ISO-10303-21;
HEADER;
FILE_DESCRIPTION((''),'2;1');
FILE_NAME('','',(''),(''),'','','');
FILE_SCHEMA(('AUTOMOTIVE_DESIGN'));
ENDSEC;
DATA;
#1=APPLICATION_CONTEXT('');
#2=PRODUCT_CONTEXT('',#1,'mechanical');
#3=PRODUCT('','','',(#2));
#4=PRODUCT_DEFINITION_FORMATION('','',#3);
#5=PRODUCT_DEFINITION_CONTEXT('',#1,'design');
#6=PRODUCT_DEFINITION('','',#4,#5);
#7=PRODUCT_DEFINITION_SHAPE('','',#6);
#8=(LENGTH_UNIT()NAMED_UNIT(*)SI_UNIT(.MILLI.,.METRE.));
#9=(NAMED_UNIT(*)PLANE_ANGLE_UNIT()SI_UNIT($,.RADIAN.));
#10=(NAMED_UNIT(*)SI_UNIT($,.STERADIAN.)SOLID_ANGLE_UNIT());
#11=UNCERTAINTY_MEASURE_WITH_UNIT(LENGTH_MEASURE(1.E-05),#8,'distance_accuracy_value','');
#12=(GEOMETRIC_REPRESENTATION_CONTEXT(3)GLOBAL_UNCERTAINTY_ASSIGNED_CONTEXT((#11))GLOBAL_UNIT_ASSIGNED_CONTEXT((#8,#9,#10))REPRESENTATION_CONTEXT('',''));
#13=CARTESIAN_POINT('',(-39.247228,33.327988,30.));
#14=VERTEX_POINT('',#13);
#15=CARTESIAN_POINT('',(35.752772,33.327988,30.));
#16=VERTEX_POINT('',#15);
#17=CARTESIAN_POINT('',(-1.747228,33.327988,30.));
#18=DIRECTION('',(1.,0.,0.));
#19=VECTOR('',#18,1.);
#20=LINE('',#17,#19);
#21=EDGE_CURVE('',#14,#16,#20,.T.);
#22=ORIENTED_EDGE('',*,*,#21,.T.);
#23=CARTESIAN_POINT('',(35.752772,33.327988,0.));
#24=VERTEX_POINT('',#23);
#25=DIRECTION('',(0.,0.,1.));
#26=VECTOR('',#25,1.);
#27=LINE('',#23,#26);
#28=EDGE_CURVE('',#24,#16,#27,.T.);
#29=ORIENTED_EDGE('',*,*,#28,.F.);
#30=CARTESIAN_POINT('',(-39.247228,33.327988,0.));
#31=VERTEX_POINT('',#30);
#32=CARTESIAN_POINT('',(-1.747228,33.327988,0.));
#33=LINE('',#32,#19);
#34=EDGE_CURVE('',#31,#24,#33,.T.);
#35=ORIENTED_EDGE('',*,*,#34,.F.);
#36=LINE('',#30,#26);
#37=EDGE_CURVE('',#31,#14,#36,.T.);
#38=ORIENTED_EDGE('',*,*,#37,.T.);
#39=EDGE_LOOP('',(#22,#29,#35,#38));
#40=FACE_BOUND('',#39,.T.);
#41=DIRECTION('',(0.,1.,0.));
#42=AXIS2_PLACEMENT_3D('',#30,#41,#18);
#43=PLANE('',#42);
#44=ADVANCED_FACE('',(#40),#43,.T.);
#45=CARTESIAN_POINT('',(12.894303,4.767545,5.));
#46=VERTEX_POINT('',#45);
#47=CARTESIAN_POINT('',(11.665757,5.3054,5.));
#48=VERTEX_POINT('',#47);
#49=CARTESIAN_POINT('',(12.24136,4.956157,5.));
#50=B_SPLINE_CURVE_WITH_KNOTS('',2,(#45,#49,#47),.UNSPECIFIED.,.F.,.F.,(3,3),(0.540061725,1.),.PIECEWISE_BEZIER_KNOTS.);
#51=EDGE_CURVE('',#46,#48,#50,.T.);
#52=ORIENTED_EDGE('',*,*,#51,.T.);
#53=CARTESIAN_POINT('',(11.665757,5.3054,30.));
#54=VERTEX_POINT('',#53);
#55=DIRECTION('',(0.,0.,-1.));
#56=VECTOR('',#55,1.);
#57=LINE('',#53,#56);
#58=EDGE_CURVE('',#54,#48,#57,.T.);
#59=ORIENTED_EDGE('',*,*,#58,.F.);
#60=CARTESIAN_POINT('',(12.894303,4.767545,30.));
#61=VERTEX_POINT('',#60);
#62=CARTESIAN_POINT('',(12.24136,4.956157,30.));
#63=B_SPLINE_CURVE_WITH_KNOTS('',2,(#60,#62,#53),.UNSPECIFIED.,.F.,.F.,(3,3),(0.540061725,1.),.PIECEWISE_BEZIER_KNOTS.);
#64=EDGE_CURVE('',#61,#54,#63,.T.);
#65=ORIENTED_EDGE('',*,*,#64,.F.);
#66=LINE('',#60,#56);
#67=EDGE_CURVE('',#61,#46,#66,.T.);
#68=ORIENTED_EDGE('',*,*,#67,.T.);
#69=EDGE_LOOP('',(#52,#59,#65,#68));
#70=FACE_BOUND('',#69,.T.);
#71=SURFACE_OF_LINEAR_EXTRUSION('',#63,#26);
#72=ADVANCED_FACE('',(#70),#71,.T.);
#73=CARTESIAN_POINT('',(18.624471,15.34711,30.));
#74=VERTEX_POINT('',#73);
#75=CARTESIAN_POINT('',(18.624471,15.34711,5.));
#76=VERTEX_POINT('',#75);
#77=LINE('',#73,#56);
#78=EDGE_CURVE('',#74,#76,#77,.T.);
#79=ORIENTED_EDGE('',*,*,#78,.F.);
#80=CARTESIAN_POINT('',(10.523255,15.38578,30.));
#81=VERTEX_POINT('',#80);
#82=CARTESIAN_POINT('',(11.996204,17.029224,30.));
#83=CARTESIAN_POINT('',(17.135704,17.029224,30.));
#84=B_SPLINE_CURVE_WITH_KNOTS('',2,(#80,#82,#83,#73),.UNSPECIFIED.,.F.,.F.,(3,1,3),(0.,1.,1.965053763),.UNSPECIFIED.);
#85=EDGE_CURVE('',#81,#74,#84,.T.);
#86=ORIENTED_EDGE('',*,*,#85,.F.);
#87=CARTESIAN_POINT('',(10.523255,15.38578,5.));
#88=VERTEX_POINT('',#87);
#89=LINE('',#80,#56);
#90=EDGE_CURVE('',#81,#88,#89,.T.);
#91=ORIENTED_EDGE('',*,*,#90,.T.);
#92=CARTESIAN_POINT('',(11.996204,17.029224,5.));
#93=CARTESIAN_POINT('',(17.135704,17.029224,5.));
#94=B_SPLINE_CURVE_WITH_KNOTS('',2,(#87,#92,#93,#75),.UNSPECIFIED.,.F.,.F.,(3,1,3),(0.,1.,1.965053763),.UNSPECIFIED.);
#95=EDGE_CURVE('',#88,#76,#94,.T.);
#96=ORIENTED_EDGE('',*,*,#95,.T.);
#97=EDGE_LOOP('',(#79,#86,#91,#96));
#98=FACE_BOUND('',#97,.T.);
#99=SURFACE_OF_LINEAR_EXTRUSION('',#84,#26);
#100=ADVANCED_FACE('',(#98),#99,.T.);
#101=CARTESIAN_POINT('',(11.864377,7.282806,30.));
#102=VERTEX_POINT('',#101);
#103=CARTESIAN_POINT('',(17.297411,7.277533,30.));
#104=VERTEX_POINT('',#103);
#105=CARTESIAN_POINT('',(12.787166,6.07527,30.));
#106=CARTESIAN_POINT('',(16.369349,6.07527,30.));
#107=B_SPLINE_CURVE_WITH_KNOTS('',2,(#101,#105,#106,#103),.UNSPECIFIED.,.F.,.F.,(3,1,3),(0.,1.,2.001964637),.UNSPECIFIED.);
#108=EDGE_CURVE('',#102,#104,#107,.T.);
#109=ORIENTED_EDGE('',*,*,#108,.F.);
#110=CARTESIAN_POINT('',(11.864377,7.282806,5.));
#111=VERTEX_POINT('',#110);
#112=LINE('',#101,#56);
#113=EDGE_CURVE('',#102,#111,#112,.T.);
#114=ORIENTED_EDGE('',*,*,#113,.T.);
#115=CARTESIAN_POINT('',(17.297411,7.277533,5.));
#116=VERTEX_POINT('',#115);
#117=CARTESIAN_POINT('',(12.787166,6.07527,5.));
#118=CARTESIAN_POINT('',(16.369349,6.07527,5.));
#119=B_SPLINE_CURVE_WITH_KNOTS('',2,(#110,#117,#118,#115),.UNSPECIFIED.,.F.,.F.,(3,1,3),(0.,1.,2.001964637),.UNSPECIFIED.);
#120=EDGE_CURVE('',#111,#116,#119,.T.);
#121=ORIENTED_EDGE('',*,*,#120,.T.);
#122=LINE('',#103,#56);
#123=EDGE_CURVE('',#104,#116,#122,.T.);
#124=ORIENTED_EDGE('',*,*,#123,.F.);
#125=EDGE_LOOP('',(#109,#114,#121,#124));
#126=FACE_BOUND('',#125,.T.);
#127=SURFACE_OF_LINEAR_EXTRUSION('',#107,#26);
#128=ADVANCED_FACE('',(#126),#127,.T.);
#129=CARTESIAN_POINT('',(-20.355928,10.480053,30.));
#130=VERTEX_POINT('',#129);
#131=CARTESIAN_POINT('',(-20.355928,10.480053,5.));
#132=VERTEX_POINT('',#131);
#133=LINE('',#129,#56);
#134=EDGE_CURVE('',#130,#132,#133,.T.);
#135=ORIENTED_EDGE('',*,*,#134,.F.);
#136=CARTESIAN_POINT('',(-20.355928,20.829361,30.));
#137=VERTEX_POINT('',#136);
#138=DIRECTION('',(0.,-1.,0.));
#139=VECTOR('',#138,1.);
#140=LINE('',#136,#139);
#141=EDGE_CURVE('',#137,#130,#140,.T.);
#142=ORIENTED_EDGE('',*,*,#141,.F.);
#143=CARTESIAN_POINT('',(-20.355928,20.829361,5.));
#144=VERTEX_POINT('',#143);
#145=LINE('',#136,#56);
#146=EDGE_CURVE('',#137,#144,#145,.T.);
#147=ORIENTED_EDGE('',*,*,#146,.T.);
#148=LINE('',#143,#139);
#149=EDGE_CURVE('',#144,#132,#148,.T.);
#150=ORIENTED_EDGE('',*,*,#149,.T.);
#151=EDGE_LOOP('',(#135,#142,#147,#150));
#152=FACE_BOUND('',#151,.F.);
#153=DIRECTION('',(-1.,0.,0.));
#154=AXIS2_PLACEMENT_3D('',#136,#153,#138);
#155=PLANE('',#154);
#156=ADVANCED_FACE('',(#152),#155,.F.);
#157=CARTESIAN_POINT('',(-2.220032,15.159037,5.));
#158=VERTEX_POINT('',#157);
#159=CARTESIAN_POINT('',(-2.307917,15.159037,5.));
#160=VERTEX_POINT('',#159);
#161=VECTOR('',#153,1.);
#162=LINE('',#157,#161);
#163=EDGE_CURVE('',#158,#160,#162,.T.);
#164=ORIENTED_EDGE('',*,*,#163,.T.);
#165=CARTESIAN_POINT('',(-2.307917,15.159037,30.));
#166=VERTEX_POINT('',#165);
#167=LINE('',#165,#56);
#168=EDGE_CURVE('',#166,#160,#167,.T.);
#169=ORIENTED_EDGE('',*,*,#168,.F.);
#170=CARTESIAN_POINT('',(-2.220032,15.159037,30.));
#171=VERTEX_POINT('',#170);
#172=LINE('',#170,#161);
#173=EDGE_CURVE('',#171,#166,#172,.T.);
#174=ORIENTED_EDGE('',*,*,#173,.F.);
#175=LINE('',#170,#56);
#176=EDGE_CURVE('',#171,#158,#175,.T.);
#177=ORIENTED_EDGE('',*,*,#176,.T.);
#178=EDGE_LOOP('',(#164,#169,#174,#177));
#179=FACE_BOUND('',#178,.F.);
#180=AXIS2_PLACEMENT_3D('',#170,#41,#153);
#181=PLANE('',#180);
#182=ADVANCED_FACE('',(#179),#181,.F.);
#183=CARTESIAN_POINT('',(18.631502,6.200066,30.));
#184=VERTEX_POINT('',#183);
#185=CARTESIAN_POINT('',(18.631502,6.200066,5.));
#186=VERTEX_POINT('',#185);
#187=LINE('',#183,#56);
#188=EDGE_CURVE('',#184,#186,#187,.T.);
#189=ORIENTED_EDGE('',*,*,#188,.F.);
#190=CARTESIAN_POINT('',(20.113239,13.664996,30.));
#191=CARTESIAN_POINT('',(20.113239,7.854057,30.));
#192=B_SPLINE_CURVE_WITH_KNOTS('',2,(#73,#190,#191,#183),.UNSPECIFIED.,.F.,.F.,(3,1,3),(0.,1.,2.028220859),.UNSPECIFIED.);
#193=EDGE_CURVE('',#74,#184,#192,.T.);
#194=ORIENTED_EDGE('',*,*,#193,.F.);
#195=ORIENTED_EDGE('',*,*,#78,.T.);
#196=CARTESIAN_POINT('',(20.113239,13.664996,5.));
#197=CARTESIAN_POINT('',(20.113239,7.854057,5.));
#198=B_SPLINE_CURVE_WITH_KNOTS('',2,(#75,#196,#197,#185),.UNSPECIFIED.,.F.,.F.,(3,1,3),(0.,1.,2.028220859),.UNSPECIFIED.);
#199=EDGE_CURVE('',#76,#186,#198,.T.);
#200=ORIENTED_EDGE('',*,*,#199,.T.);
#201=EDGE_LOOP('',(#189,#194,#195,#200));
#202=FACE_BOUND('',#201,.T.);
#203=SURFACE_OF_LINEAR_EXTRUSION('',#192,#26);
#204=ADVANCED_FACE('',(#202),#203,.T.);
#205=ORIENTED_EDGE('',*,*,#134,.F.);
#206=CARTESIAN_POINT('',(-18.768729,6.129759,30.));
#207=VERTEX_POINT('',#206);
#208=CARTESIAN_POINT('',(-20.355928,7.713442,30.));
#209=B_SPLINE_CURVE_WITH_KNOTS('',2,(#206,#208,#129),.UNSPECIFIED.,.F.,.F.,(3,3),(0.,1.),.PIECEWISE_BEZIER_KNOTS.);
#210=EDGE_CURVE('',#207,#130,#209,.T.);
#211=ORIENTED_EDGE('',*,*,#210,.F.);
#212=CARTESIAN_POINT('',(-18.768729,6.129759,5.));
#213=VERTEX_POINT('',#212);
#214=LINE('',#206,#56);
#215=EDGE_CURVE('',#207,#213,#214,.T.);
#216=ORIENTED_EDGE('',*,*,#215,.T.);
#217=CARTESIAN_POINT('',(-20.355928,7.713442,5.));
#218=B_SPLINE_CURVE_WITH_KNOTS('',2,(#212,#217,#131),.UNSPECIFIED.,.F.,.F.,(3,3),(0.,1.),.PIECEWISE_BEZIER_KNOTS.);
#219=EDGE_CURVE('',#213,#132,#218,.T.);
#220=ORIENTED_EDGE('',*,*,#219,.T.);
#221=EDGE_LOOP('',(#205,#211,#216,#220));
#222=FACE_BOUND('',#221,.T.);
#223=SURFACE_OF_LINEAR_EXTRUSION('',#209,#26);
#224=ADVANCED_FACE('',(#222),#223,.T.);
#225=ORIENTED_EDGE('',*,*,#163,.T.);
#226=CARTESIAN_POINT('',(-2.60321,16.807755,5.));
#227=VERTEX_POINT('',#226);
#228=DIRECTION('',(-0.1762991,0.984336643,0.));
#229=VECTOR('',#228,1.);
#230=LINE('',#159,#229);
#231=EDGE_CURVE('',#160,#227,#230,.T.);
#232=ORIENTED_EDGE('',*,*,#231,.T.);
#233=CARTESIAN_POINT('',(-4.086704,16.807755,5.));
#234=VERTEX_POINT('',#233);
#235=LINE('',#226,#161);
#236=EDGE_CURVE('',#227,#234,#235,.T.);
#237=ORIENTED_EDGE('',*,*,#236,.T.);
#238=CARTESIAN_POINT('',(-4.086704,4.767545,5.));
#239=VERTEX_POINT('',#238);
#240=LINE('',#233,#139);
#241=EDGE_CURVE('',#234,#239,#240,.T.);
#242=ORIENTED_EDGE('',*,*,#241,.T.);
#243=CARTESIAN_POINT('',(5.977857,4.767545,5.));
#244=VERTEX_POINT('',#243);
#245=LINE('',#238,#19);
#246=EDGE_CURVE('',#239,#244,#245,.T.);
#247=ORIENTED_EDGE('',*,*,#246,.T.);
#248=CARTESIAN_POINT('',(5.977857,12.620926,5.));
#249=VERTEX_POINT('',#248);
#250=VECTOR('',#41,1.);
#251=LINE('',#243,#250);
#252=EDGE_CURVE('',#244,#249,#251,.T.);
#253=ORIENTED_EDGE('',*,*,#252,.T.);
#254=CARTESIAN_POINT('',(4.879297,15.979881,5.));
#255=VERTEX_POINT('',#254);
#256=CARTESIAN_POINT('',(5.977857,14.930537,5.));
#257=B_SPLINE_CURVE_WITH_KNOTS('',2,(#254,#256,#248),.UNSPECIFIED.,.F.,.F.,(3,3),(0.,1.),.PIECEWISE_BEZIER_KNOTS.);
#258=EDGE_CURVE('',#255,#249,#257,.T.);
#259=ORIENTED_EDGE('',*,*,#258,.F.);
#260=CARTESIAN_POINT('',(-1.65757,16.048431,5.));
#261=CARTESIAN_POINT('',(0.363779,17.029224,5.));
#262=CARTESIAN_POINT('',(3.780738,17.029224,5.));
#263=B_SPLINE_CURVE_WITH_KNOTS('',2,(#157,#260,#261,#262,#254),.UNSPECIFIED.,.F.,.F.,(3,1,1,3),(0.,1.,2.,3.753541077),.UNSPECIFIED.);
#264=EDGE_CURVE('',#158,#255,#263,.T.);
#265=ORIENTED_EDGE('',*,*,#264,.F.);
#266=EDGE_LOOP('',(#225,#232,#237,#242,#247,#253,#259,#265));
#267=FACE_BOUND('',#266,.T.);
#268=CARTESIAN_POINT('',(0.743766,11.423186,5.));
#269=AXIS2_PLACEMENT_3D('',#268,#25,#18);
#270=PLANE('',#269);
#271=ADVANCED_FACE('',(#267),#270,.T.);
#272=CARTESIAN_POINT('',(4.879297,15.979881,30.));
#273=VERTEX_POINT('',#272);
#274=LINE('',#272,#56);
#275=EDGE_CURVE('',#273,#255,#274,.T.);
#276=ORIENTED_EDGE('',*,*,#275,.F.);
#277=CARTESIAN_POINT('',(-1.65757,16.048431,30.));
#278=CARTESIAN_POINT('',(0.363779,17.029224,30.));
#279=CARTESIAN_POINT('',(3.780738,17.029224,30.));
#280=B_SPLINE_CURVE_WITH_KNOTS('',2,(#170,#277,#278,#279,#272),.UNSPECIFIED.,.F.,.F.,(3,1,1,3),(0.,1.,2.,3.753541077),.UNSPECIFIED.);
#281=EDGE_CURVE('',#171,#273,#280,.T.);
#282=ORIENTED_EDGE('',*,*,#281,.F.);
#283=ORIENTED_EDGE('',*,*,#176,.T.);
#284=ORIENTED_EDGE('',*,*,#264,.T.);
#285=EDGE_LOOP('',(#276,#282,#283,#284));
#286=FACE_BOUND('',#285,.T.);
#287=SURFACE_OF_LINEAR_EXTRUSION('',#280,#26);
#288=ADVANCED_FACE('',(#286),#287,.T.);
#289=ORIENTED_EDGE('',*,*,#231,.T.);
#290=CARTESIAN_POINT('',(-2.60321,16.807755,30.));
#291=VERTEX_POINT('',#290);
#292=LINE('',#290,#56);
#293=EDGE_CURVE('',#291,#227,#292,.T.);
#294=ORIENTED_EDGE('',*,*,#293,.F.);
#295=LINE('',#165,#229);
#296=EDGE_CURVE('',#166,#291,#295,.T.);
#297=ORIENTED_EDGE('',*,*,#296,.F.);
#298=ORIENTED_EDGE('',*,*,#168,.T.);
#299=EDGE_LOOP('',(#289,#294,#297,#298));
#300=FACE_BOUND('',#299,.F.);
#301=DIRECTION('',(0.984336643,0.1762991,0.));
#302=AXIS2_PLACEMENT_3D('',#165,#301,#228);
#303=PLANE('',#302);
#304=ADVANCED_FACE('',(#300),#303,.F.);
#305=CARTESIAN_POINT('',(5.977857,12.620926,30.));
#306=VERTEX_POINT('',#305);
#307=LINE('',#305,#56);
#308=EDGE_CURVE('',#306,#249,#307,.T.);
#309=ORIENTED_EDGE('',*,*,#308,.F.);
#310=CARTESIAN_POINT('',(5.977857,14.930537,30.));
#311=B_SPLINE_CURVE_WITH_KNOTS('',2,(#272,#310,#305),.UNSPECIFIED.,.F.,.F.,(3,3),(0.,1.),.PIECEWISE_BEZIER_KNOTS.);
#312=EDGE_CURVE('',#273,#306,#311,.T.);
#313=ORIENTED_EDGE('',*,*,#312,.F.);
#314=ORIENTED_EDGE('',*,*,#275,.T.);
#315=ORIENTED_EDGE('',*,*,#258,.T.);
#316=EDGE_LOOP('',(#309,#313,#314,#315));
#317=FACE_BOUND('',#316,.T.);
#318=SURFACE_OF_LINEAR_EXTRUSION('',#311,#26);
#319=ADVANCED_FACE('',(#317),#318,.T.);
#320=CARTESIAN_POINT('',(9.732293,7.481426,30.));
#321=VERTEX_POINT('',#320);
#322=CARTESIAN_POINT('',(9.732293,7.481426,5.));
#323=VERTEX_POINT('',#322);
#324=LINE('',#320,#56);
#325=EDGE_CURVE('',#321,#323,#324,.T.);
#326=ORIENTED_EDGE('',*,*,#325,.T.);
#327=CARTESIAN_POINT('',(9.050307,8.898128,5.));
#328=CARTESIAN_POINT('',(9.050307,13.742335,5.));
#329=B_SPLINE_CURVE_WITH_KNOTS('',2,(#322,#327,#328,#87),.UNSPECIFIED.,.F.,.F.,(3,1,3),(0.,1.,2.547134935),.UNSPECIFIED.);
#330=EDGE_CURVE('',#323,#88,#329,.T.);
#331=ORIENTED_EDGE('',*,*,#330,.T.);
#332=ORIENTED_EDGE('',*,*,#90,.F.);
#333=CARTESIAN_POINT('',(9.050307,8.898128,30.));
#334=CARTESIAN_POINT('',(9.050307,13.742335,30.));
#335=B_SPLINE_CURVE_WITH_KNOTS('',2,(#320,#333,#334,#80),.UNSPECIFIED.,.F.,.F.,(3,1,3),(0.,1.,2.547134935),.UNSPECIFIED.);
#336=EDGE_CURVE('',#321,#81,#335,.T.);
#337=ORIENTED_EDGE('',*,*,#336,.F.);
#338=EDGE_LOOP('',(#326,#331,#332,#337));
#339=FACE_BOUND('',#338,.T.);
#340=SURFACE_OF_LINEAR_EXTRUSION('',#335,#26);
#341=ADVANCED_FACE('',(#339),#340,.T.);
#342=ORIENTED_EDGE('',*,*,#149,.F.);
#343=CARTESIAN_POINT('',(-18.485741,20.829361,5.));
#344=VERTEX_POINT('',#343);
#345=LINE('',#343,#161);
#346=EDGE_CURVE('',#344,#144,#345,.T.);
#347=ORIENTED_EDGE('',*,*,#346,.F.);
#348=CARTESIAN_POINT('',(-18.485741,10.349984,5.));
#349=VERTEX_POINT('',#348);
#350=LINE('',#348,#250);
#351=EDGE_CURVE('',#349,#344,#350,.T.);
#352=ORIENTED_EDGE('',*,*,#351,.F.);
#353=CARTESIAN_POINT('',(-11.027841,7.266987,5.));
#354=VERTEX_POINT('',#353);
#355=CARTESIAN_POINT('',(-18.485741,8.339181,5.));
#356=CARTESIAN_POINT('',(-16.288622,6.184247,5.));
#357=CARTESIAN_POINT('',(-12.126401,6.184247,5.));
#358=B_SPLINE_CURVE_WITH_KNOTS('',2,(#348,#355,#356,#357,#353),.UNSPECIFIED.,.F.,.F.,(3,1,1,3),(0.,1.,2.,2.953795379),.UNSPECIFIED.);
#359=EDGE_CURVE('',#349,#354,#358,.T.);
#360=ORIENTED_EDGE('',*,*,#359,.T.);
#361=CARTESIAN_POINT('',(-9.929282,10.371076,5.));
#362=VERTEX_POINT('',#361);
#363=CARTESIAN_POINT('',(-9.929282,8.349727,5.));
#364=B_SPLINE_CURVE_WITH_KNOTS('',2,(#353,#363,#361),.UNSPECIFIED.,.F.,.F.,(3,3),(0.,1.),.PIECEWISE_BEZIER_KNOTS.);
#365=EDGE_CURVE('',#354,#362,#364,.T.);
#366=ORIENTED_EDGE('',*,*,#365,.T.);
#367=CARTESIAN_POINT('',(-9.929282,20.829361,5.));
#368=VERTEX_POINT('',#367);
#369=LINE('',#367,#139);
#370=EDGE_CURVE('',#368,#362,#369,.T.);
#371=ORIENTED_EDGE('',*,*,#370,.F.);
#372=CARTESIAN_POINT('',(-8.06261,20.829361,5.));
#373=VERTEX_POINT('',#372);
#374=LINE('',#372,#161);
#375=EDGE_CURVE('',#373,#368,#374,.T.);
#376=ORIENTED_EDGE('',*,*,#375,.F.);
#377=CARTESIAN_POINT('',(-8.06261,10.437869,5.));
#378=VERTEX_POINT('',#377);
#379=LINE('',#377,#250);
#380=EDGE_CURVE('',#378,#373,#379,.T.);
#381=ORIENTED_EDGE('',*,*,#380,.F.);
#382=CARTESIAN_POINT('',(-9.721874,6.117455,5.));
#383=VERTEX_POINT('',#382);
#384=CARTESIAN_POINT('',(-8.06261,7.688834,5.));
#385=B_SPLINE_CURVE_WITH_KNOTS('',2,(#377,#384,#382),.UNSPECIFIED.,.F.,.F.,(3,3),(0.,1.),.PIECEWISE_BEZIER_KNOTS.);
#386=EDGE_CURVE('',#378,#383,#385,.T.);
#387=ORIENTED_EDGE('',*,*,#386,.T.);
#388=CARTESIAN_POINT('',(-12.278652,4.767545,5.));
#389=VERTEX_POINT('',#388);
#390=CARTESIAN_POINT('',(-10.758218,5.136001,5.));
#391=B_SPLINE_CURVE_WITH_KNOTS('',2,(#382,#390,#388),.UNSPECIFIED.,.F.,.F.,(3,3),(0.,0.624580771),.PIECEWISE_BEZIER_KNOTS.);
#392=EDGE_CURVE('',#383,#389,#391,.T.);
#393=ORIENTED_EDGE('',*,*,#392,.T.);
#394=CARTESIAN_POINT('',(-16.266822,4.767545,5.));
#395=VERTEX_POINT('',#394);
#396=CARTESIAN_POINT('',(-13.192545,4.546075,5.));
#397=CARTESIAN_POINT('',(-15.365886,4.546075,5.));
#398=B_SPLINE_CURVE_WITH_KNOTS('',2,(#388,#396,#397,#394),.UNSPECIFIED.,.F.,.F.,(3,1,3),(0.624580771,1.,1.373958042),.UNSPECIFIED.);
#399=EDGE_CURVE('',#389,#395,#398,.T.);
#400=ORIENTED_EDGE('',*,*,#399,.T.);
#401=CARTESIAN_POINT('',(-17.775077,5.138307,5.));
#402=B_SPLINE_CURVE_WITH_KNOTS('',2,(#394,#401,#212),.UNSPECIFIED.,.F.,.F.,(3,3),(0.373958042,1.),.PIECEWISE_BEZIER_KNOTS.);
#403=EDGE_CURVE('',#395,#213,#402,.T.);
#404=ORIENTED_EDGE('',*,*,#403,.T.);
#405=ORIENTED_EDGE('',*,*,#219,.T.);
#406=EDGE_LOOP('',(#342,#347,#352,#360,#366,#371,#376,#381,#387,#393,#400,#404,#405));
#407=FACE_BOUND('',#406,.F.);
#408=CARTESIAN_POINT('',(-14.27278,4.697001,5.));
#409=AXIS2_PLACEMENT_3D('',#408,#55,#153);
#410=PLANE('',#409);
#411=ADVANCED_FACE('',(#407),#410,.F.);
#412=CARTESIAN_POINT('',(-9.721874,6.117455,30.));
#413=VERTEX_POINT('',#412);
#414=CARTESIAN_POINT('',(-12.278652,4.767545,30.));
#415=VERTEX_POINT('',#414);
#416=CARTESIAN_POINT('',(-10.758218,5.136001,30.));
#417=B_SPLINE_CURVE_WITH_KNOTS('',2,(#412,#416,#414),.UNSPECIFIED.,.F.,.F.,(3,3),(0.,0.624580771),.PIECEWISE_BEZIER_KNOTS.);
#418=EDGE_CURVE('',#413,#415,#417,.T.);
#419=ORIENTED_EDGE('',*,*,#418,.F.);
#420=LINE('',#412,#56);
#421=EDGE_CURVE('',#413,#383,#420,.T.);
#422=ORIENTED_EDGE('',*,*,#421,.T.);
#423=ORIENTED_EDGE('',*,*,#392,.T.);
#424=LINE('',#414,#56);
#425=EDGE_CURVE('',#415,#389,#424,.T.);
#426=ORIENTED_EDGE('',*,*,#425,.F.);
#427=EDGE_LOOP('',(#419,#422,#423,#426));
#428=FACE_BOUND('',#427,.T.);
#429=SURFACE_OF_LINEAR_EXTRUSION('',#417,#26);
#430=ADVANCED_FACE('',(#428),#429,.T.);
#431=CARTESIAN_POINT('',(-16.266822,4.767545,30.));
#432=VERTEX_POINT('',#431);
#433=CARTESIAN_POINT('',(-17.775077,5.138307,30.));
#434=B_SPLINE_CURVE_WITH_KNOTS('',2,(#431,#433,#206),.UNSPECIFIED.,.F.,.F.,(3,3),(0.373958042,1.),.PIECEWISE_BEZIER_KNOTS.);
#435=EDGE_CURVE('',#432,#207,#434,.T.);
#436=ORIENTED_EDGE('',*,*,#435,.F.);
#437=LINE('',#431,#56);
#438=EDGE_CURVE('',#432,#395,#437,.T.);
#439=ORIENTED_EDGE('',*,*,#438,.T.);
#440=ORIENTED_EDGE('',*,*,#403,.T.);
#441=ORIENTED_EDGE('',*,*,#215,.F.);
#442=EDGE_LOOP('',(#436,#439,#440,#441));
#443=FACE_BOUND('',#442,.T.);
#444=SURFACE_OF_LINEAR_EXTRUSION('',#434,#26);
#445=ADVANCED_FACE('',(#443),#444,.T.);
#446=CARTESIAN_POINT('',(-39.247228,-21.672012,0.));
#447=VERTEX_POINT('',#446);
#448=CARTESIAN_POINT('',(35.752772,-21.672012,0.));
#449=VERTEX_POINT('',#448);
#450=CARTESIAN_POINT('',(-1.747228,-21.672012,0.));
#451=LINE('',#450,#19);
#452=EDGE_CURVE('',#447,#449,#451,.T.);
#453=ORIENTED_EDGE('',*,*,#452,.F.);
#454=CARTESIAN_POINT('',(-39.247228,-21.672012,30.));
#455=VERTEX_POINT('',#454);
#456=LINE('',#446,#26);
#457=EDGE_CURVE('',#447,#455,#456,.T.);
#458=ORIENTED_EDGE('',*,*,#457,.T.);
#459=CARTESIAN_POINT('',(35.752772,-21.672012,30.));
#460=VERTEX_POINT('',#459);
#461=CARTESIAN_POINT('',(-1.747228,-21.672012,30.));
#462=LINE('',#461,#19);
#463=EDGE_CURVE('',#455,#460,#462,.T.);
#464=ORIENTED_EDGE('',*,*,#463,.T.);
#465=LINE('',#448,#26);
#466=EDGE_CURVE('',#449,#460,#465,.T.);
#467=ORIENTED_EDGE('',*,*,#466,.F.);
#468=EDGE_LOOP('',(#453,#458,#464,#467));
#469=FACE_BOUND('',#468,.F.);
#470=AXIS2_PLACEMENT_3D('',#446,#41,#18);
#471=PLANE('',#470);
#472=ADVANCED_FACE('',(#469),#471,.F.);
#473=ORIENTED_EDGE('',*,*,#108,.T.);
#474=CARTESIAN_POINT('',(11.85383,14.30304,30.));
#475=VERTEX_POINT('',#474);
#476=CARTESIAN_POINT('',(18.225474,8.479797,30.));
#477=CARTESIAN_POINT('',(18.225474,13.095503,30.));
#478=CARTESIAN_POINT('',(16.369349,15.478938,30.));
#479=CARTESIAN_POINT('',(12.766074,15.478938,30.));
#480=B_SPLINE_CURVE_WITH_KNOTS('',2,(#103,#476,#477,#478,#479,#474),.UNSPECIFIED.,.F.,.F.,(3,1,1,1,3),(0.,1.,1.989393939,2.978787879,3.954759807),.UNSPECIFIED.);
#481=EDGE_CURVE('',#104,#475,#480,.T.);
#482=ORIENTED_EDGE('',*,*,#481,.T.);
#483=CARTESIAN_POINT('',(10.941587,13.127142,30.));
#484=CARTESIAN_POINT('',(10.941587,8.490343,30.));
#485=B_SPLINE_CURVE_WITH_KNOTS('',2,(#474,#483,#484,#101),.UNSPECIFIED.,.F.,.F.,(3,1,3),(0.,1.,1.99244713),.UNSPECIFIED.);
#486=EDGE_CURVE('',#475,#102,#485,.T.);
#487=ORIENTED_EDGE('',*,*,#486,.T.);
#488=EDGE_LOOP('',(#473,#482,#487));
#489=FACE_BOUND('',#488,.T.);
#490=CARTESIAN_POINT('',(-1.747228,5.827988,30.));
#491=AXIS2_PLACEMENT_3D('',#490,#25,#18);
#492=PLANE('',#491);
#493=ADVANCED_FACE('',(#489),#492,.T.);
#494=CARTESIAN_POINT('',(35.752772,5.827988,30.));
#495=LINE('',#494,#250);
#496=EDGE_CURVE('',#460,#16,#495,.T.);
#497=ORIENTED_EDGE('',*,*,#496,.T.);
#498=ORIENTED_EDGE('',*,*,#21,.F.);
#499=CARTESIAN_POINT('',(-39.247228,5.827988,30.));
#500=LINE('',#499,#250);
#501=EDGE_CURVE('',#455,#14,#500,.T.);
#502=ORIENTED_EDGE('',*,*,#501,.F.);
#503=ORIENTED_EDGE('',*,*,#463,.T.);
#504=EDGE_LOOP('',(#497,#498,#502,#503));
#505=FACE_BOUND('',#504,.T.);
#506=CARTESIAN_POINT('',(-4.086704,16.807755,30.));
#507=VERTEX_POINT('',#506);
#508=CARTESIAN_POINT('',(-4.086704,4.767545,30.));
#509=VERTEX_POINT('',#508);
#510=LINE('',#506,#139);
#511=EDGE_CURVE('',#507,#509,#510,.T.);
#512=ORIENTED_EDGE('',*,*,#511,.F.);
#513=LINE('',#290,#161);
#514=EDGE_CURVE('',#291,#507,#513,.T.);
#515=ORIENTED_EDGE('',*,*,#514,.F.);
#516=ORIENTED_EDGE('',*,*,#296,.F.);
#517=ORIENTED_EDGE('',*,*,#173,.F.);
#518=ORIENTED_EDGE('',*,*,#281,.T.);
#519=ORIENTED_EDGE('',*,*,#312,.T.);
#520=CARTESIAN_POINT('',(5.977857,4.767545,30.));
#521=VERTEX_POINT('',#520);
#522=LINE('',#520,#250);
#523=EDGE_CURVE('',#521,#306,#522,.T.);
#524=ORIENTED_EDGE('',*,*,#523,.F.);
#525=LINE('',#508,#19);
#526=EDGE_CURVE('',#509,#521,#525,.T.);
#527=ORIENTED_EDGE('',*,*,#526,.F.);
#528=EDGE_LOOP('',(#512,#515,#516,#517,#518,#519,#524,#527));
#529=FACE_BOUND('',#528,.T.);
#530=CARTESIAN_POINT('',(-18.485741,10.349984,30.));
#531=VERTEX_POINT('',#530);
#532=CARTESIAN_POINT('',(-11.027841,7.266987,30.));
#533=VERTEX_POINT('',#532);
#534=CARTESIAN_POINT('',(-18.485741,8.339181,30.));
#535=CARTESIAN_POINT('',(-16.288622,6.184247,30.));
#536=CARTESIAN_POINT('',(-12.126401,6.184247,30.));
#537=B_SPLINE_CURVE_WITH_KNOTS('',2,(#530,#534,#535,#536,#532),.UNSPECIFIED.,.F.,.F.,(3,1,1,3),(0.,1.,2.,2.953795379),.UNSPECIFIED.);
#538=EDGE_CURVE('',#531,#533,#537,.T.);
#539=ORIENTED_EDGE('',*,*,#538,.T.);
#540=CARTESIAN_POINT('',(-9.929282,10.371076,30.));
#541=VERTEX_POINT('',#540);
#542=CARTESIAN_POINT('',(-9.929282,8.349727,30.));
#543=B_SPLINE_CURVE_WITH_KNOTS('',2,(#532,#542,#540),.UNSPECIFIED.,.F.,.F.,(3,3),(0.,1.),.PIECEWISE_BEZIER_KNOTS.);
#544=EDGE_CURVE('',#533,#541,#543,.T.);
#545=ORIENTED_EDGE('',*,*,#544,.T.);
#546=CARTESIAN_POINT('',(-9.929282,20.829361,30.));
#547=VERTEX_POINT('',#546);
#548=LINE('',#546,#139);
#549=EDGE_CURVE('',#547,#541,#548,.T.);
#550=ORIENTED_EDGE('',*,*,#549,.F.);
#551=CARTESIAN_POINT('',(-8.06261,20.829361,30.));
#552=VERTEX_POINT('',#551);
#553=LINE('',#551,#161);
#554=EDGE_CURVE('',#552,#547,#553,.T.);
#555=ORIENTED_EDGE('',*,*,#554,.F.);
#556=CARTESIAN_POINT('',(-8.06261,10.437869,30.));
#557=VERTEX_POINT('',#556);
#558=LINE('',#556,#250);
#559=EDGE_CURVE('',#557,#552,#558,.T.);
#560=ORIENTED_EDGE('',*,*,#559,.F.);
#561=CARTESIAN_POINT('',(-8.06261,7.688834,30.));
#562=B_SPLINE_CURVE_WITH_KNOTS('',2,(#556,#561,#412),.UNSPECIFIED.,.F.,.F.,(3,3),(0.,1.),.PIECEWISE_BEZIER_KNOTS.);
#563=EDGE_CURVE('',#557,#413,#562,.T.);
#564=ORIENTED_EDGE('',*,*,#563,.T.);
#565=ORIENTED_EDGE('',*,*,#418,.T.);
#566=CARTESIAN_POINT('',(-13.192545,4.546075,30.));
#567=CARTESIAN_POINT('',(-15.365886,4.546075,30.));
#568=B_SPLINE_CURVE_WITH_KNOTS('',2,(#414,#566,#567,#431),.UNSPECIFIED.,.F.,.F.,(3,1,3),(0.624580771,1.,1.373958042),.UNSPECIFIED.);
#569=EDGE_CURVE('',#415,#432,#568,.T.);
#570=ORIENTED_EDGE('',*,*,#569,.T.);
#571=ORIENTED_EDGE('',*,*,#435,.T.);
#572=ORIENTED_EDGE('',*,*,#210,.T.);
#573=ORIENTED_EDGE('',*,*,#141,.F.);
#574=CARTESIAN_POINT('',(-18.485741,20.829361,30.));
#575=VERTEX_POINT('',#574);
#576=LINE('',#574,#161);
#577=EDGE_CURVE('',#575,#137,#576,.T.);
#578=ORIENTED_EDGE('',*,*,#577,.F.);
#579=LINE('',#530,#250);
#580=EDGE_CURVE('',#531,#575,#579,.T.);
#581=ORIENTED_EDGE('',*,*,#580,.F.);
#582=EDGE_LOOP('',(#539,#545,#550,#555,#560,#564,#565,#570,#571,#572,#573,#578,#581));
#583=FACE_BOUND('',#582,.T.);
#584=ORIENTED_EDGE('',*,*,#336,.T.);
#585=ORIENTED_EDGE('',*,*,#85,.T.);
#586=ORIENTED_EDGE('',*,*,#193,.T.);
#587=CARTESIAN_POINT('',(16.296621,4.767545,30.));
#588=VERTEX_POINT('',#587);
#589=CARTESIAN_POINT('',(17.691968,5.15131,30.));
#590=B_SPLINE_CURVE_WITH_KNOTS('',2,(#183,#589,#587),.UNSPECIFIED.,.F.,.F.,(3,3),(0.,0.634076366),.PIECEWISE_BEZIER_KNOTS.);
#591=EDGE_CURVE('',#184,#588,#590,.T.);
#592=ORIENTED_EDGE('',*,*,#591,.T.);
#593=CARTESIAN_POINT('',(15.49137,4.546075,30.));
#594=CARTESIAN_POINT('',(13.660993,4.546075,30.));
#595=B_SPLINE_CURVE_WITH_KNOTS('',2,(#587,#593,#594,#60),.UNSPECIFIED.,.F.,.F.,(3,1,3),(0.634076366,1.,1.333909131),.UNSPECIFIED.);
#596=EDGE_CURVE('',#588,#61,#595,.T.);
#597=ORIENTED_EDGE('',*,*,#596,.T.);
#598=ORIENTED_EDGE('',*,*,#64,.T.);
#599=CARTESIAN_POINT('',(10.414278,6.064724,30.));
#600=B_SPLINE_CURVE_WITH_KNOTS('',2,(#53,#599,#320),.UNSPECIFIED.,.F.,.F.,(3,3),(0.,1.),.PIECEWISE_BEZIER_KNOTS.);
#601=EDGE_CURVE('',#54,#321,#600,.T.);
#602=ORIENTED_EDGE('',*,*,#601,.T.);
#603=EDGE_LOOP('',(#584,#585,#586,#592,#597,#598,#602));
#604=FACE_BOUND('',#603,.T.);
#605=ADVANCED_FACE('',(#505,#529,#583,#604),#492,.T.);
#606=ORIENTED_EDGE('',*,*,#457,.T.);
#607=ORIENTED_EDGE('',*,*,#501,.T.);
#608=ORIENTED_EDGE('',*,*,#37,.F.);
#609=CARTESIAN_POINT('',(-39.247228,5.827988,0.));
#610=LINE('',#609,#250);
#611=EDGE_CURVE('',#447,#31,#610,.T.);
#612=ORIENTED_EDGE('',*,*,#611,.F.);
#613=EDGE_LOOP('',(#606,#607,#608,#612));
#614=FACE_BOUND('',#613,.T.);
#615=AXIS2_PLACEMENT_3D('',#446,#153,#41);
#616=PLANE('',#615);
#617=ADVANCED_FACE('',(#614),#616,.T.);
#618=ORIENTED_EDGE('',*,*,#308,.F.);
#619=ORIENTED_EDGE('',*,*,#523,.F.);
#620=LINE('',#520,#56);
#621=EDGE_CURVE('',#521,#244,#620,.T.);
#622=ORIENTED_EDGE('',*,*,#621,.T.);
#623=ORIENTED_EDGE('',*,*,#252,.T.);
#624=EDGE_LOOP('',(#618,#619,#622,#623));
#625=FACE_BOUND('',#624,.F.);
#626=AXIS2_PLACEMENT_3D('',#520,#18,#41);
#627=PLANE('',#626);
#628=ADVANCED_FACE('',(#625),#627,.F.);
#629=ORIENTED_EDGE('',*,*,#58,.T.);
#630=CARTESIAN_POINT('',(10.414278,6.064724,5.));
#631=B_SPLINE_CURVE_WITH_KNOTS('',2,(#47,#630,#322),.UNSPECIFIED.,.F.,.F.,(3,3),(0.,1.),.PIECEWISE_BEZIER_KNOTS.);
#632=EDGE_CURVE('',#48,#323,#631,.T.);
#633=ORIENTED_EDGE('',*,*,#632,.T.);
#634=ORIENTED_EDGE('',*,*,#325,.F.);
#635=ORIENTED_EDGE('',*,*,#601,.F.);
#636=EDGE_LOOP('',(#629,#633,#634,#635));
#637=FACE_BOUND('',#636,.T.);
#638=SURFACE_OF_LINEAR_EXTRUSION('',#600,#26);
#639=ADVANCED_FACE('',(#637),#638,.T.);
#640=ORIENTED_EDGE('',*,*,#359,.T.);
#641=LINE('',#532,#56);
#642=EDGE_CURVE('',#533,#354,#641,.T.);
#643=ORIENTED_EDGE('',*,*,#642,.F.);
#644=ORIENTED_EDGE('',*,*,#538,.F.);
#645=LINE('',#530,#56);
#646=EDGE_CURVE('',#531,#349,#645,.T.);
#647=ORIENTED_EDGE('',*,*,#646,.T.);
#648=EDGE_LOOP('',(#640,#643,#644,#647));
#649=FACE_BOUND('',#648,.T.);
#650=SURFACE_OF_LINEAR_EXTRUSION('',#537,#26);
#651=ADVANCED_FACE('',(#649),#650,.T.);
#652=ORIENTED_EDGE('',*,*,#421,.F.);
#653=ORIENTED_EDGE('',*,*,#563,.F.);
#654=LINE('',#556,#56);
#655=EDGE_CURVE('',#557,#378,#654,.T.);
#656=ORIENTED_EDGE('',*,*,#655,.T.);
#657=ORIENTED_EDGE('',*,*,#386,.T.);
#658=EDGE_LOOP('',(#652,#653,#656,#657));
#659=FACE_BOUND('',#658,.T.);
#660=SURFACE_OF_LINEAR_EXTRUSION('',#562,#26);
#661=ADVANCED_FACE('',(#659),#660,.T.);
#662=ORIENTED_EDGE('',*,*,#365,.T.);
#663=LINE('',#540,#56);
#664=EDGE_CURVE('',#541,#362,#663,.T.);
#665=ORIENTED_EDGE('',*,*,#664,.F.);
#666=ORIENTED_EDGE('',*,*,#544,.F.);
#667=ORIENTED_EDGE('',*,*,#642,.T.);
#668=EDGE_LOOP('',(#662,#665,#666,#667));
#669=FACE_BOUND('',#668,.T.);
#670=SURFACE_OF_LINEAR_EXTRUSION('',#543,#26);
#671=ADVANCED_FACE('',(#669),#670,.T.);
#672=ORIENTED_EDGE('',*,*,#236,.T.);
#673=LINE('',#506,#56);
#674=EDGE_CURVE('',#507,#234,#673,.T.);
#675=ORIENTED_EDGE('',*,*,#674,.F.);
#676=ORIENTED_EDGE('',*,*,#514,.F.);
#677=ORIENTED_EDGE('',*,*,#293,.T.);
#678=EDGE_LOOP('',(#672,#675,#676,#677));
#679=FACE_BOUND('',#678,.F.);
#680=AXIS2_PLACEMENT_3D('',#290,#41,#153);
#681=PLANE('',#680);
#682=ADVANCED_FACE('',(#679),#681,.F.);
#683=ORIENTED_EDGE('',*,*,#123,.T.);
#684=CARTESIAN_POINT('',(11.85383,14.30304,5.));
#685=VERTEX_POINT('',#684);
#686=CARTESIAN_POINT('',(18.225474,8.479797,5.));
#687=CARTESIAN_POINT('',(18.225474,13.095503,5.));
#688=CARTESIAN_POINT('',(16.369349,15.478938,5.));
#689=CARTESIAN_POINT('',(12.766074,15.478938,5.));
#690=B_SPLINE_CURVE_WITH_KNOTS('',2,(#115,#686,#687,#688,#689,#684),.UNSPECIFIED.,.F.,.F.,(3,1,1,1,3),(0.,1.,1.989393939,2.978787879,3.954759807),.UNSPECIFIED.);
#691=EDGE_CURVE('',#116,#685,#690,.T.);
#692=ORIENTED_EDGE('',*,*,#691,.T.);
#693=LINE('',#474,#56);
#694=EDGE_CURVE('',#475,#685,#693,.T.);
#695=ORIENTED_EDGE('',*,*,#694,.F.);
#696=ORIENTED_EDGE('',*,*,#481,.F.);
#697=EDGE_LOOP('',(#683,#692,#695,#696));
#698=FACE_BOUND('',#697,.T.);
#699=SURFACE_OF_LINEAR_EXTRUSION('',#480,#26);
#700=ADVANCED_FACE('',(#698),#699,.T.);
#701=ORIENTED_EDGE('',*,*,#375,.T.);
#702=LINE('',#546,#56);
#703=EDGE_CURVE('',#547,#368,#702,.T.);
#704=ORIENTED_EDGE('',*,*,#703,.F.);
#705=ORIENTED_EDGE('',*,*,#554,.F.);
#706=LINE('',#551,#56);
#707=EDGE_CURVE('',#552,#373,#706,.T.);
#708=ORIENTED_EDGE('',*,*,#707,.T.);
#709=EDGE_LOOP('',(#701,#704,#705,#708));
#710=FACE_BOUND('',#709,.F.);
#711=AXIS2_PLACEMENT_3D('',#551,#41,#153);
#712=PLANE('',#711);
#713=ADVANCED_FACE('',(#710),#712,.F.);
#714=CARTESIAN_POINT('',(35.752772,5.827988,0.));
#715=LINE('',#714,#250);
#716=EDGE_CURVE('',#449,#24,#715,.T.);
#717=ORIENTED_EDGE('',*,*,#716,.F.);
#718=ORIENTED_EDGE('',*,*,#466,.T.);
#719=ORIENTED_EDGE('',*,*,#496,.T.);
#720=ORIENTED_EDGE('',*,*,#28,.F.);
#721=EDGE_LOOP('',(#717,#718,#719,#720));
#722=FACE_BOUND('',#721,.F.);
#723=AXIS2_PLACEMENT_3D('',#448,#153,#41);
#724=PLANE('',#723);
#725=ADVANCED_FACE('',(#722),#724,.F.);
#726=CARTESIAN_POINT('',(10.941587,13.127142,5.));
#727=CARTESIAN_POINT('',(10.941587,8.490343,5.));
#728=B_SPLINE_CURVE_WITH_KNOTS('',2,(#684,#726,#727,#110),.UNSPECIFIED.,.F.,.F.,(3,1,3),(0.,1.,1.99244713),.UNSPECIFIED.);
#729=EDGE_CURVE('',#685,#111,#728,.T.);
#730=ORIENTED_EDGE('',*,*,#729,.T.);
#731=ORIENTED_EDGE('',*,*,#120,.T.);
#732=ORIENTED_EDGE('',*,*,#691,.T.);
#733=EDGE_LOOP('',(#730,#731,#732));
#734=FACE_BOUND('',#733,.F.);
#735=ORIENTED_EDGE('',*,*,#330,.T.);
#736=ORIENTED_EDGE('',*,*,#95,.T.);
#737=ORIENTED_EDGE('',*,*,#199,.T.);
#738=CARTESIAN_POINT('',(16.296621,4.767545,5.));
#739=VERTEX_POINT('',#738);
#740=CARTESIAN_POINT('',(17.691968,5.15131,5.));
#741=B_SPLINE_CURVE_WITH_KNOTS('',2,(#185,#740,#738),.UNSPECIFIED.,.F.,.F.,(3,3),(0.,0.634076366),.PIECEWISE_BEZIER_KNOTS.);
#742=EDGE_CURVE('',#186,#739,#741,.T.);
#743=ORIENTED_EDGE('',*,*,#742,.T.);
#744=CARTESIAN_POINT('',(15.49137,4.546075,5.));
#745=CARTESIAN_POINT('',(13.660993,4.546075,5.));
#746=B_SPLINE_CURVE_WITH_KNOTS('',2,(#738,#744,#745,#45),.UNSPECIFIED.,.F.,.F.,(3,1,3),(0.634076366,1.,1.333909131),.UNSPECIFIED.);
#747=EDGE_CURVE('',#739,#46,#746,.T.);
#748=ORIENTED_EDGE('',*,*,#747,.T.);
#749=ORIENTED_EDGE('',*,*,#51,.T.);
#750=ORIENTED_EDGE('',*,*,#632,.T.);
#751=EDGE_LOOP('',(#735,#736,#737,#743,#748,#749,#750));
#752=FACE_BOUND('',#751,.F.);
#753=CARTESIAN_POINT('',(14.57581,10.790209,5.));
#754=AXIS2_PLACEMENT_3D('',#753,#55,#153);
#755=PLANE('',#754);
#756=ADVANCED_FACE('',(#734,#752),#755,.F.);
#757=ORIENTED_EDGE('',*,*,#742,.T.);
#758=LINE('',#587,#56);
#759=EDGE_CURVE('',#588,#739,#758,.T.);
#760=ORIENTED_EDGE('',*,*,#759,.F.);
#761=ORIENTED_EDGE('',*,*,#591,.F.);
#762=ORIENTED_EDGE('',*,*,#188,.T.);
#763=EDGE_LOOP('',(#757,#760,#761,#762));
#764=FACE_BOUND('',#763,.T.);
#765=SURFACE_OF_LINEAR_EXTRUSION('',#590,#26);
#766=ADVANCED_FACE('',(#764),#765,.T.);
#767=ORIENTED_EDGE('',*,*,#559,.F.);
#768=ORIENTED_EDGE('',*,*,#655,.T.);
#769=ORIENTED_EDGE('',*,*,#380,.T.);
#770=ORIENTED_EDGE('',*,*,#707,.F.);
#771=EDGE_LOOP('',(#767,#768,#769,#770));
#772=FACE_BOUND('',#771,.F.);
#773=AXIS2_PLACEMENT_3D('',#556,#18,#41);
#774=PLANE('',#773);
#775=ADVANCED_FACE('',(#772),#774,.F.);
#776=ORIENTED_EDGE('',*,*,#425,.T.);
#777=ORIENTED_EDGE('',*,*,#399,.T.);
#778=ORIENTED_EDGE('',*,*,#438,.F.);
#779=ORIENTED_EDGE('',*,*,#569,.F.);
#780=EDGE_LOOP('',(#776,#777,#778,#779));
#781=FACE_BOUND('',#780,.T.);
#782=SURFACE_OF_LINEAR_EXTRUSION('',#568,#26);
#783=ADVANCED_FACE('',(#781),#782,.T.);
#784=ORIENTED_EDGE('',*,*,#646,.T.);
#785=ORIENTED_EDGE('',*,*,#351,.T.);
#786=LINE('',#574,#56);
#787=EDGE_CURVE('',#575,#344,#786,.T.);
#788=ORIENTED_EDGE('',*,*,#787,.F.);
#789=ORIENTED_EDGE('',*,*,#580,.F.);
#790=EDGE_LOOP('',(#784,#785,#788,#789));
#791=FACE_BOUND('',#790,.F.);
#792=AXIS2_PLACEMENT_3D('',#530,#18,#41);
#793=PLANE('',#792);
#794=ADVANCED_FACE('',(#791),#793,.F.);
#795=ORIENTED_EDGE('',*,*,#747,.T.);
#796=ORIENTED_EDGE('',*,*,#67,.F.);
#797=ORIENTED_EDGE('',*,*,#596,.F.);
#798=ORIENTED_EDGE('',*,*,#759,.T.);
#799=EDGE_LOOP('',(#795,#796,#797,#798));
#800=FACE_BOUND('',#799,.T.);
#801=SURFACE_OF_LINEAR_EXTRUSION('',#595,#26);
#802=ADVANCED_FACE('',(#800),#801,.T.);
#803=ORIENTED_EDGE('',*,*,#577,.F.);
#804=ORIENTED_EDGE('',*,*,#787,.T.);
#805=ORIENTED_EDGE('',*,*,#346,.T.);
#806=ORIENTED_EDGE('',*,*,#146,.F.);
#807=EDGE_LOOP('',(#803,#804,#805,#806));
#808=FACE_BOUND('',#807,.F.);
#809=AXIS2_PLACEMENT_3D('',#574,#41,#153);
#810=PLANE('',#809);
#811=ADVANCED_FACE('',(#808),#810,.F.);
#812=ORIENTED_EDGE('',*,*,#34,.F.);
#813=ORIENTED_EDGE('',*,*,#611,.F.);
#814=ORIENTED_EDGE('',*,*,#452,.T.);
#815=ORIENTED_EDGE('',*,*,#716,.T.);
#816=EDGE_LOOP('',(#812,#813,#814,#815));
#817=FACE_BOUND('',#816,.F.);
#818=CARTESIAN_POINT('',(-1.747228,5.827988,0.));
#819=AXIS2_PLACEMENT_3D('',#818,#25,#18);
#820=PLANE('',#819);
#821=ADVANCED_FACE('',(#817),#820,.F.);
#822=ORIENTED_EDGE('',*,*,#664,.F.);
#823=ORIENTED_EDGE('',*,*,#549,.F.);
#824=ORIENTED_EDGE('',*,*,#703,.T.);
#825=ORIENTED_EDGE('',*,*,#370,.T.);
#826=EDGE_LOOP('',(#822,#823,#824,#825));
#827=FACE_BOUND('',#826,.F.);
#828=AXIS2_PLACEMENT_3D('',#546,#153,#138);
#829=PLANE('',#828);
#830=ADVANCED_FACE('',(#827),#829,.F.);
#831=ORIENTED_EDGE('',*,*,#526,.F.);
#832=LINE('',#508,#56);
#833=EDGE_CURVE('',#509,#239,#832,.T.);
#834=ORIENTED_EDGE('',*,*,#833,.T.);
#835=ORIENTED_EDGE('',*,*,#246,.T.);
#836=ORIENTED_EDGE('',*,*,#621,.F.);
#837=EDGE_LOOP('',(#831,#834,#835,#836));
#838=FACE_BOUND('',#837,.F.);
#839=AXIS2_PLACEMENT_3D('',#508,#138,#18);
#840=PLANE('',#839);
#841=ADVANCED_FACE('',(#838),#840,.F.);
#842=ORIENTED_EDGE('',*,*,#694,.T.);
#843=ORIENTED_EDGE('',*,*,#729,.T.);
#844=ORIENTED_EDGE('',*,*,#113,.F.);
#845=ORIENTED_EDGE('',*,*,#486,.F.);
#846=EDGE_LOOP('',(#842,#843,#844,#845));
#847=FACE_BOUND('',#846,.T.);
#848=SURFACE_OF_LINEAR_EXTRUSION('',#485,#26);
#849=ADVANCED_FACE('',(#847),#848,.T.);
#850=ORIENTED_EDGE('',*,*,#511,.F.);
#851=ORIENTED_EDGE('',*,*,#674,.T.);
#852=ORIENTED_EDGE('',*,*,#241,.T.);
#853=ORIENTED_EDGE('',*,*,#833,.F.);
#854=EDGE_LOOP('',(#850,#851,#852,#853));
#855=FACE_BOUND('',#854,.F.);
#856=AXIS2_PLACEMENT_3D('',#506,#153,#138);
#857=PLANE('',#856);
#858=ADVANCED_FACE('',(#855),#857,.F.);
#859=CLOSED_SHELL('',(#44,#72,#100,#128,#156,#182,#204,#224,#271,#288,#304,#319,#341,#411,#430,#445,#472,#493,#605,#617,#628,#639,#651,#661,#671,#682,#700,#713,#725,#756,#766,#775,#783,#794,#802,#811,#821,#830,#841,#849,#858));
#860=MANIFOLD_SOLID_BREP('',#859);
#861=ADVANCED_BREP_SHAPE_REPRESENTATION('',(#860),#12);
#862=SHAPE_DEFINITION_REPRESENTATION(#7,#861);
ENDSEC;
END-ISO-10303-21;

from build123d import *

# Parameters (mm, degrees)
F0_W     = 75
F0_H     = 55
F1_DEPTH = 30
F3_DEPTH = 25


with BuildPart() as f1:
    # F0 (on Top) → F1 (new body)
    with BuildSketch(Plane.XY):
        with Locations((-1.7472282052, 5.8279882101)):
            Rectangle(F0_W, F0_H)
    extrude(amount=F1_DEPTH)

    # F2 (on face) → F3 (cut)
    with BuildSketch(Plane.XY.offset(30)):
        with BuildLine():
            Line((-4.0867042615, 16.8077548728), (-4.0867042615, 4.7675450332))
            Line((-4.0867042615, 4.7675450332), (-2.2622169894, 4.7675450332))
            Line((-2.2622169894, 4.7675450332), (-2.2622169894, 11.0847003856))
            add(Edge.make_bspline(
                [(-1.3833695559, 14.4577168355), (-2.2622169894, 13.4364961177), (-2.2622169894, 11.0847003856)],
                knots=[0, 0, 0, 1, 1, 1], degree=2))
            add(Edge.make_bspline(
                [(1.3832421649, 15.4789375533), (-0.5045221224, 15.4789375533), (-1.3833695559, 14.4577168355)],
                knots=[0, 0, 0, 1, 1, 1], degree=2))
            add(Edge.make_bspline(
                [(3.4836875311, 14.7530095732), (2.8140057867, 15.4789375533), (1.3832421649, 15.4789375533)],
                knots=[0, 0, 0, 1, 1, 1], degree=2))
            add(Edge.make_bspline(
                [(4.1533692754, 12.5576486842), (4.1533692754, 14.0270815931), (3.4836875311, 14.7530095732)],
                knots=[0, 0, 0, 1, 1, 1], degree=2))
            Line((4.1533692754, 12.5576486842), (4.1533692754, 4.7675450332))
            Line((4.1533692754, 4.7675450332), (5.9778565475, 4.7675450332))
            Line((5.9778565475, 4.7675450332), (5.9778565475, 12.6209256994))
            add(Edge.make_bspline(
                [(4.8792972555, 15.9798805904), (5.9778565475, 14.9305367547), (5.9778565475, 12.6209256994)],
                knots=[0, 0, 0, 1, 1, 1], degree=2))
            add(Edge.make_bspline(
                [(1.6047117181, 17.029224426), (3.7807379636, 17.029224426), (4.8792972555, 15.9798805904)],
                knots=[0, 0, 0, 1, 1, 1], degree=2))
            add(Edge.make_bspline(
                [(-0.6468954066, 16.5388275581), (0.363779142, 17.029224426), (1.6047117181, 17.029224426)],
                knots=[0, 0, 0, 1, 1, 1], degree=2))
            add(Edge.make_bspline(
                [(-2.2200323126, 15.1590370875), (-1.6575699552, 16.0484306902), (-0.6468954066, 16.5388275581)],
                knots=[0, 0, 0, 1, 1, 1], degree=2))
            Line((-2.2200323126, 15.1590370875), (-2.307917056, 15.1590370875))
            Line((-2.307917056, 15.1590370875), (-2.6032097937, 16.8077548728))
            Line((-2.6032097937, 16.8077548728), (-4.0867042615, 16.8077548728))
        make_face()
        with BuildLine():
            add(Edge.make_bspline(
                [(-12.2786519386, 4.7675450332), (-13.1925449458, 4.54607548), (-14.2813344906, 4.54607548)],
                knots=[0.6245807712, 0.6245807712, 0.6245807712, 1, 1, 1], degree=2))
            Line((-12.2786519386, 4.7675450332), (-16.2668224103, 4.7675450332))
            add(Edge.make_bspline(
                [(-14.2813344906, 4.54607548), (-15.3658863063, 4.54607548), (-16.2668224103, 4.7675450332)],
                knots=[0, 0, 0, 0.3739580419, 0.3739580419, 0.3739580419], degree=2))
        make_face()
        with BuildLine():
            Line((-16.2668224103, 4.7675450332), (-12.2786519386, 4.7675450332))
            add(Edge.make_bspline(
                [(-9.7218740054, 6.1174546912), (-10.7582183658, 5.1360014515), (-12.2786519386, 4.7675450332)],
                knots=[0, 0, 0, 0.6245807712, 0.6245807712, 0.6245807712], degree=2))
            add(Edge.make_bspline(
                [(-8.0626100508, 10.4378686745), (-8.0626100508, 7.6888339023), (-9.7218740054, 6.1174546912)],
                knots=[0, 0, 0, 1, 1, 1], degree=2))
            Line((-8.0626100508, 10.4378686745), (-8.0626100508, 20.8293607287))
            Line((-8.0626100508, 20.8293607287), (-9.9292819997, 20.8293607287))
            Line((-9.9292819997, 20.8293607287), (-9.9292819997, 10.3710762695))
            add(Edge.make_bspline(
                [(-11.0278412916, 7.2669871342), (-9.9292819997, 8.3497271724), (-9.9292819997, 10.3710762695)],
                knots=[0, 0, 0, 1, 1, 1], degree=2))
            add(Edge.make_bspline(
                [(-14.1582958499, 6.1842470961), (-12.1264005835, 6.1842470961), (-11.0278412916, 7.2669871342)],
                knots=[0, 0, 0, 1, 1, 1], degree=2))
            add(Edge.make_bspline(
                [(-17.3871813207, 7.2617140496), (-16.2886220288, 6.1842470961), (-14.1582958499, 6.1842470961)],
                knots=[0, 0, 0, 1, 1, 1], degree=2))
            add(Edge.make_bspline(
                [(-18.4857406127, 10.3499839311), (-18.4857406127, 8.3391810032), (-17.3871813207, 7.2617140496)],
                knots=[0, 0, 0, 1, 1, 1], degree=2))
            Line((-18.4857406127, 10.3499839311), (-18.4857406127, 20.8293607287))
            Line((-18.4857406127, 20.8293607287), (-20.3559279512, 20.8293607287))
            Line((-20.3559279512, 20.8293607287), (-20.3559279512, 10.4800533513))
            add(Edge.make_bspline(
                [(-18.7687294863, 6.1297585552), (-20.3559279512, 7.7134416305), (-20.3559279512, 10.4800533513)],
                knots=[0, 0, 0, 1, 1, 1], degree=2))
            add(Edge.make_bspline(
                [(-16.2668224103, 4.7675450332), (-17.7750766513, 5.1383065018), (-18.7687294863, 6.1297585552)],
                knots=[0.3739580419, 0.3739580419, 0.3739580419, 1, 1, 1], degree=2))
        make_face()
        with BuildLine():
            add(Edge.make_bspline(
                [(12.8943034011, 4.7675450332), (12.2413601129, 4.9561574078), (11.6657571374, 5.3053996626)],
                knots=[0.5400617249, 0.5400617249, 0.5400617249, 1, 1, 1], degree=2))
            Line((12.8943034011, 4.7675450332), (16.2966207559, 4.7675450332))
            add(Edge.make_bspline(
                [(18.6315018956, 6.2000663499), (17.691967628, 5.1513098305), (16.2966207559, 4.7675450332)],
                knots=[0, 0, 0, 0.6340763655, 0.6340763655, 0.6340763655], degree=2))
            add(Edge.make_bspline(
                [(20.1132386686, 10.7999538171), (20.1132386686, 7.8540572199), (18.6315018956, 6.2000663499)],
                knots=[0, 0, 0, 1, 1, 1], degree=2))
            add(Edge.make_bspline(
                [(18.6244711162, 15.3471104382), (20.1132386686, 13.6649964504), (20.1132386686, 10.7999538171)],
                knots=[0, 0, 0, 1, 1, 1], degree=2))
            add(Edge.make_bspline(
                [(14.6116537346, 17.029224426), (17.1357035637, 17.029224426), (18.6244711162, 15.3471104382)],
                knots=[0, 0, 0, 1, 1, 1], degree=2))
            add(Edge.make_bspline(
                [(10.5232554737, 15.3857797253), (11.9962037724, 17.029224426), (14.6116537346, 17.029224426)],
                knots=[0, 0, 0, 1, 1, 1], degree=2))
            add(Edge.make_bspline(
                [(9.0503071751, 10.7999538171), (9.0503071751, 13.7423350246), (10.5232554737, 15.3857797253)],
                knots=[0, 0, 0, 1, 1, 1], degree=2))
            add(Edge.make_bspline(
                [(9.7322927836, 7.481425908), (9.0503071751, 8.8981279709), (9.0503071751, 10.7999538171)],
                knots=[0, 0, 0, 1, 1, 1], degree=2))
            add(Edge.make_bspline(
                [(11.6657571374, 5.3053996626), (10.414278392, 6.0647238452), (9.7322927836, 7.481425908)],
                knots=[0, 0, 0, 1, 1, 1], degree=2))
        make_face()
        with BuildLine():
            add(Edge.make_bspline(
                [(10.9415868521, 10.7999538171), (10.9415868521, 8.4903427617), (11.8643766573, 7.282806388)],
                knots=[0, 0, 0, 1, 1, 1], degree=2))
            add(Edge.make_bspline(
                [(11.8538304881, 14.3030396872), (10.9415868521, 13.1271418211), (10.9415868521, 10.7999538171)],
                knots=[0, 0, 0, 1, 1, 1], degree=2))
            add(Edge.make_bspline(
                [(14.5554074988, 15.4789375533), (12.7660741242, 15.4789375533), (11.8538304881, 14.3030396872)],
                knots=[0, 0, 0, 1, 1, 1], degree=2))
            add(Edge.make_bspline(
                [(17.2974114915, 14.2872204334), (16.3693486017, 15.4789375533), (14.5554074988, 15.4789375533)],
                knots=[0, 0, 0, 1, 1, 1], degree=2))
            add(Edge.make_bspline(
                [(18.2254743813, 10.7999538171), (18.2254743813, 13.0955033135), (17.2974114915, 14.2872204334)],
                knots=[0, 0, 0, 1, 1, 1], degree=2))
            add(Edge.make_bspline(
                [(17.2974114915, 7.2775333034), (18.2254743813, 8.4797965925), (18.2254743813, 10.7999538171)],
                knots=[0, 0, 0, 1, 1, 1], degree=2))
            add(Edge.make_bspline(
                [(14.5764998373, 6.0752700144), (16.3693486017, 6.0752700144), (17.2974114915, 7.2775333034)],
                knots=[0, 0, 0, 1, 1, 1], degree=2))
            add(Edge.make_bspline(
                [(11.8643766573, 7.282806388), (12.7871664626, 6.0752700144), (14.5764998373, 6.0752700144)],
                knots=[0, 0, 0, 1, 1, 1], degree=2))
        make_face(mode=Mode.SUBTRACT)
        with BuildLine():
            Line((16.2966207559, 4.7675450332), (12.8943034011, 4.7675450332))
            add(Edge.make_bspline(
                [(14.5343151604, 4.54607548), (13.6609925365, 4.54607548), (12.8943034011, 4.7675450332)],
                knots=[0, 0, 0, 0.5400617249, 0.5400617249, 0.5400617249], degree=2))
            add(Edge.make_bspline(
                [(16.2966207559, 4.7675450332), (15.4913701164, 4.54607548), (14.5343151604, 4.54607548)],
                knots=[0.6340763655, 0.6340763655, 0.6340763655, 1, 1, 1], degree=2))
        make_face()
        with BuildLine():
            Line((-2.2622169894, 11.0847003856), (-2.2622169894, 4.7675450332))
            Line((-2.2622169894, 4.7675450332), (4.1533692754, 4.7675450332))
            Line((4.1533692754, 4.7675450332), (4.1533692754, 12.5576486842))
            add(Edge.make_bspline(
                [(4.1533692754, 12.5576486842), (4.1533692754, 14.0270815931), (3.4836875311, 14.7530095732)],
                knots=[0, 0, 0, 1, 1, 1], degree=2))
            add(Edge.make_bspline(
                [(3.4836875311, 14.7530095732), (2.8140057867, 15.4789375533), (1.3832421649, 15.4789375533)],
                knots=[0, 0, 0, 1, 1, 1], degree=2))
            add(Edge.make_bspline(
                [(1.3832421649, 15.4789375533), (-0.5045221224, 15.4789375533), (-1.3833695559, 14.4577168355)],
                knots=[0, 0, 0, 1, 1, 1], degree=2))
            add(Edge.make_bspline(
                [(-1.3833695559, 14.4577168355), (-2.2622169894, 13.4364961177), (-2.2622169894, 11.0847003856)],
                knots=[0, 0, 0, 1, 1, 1], degree=2))
        make_face()
    extrude(amount=-F3_DEPTH, mode=Mode.SUBTRACT)


solid = f1.part
